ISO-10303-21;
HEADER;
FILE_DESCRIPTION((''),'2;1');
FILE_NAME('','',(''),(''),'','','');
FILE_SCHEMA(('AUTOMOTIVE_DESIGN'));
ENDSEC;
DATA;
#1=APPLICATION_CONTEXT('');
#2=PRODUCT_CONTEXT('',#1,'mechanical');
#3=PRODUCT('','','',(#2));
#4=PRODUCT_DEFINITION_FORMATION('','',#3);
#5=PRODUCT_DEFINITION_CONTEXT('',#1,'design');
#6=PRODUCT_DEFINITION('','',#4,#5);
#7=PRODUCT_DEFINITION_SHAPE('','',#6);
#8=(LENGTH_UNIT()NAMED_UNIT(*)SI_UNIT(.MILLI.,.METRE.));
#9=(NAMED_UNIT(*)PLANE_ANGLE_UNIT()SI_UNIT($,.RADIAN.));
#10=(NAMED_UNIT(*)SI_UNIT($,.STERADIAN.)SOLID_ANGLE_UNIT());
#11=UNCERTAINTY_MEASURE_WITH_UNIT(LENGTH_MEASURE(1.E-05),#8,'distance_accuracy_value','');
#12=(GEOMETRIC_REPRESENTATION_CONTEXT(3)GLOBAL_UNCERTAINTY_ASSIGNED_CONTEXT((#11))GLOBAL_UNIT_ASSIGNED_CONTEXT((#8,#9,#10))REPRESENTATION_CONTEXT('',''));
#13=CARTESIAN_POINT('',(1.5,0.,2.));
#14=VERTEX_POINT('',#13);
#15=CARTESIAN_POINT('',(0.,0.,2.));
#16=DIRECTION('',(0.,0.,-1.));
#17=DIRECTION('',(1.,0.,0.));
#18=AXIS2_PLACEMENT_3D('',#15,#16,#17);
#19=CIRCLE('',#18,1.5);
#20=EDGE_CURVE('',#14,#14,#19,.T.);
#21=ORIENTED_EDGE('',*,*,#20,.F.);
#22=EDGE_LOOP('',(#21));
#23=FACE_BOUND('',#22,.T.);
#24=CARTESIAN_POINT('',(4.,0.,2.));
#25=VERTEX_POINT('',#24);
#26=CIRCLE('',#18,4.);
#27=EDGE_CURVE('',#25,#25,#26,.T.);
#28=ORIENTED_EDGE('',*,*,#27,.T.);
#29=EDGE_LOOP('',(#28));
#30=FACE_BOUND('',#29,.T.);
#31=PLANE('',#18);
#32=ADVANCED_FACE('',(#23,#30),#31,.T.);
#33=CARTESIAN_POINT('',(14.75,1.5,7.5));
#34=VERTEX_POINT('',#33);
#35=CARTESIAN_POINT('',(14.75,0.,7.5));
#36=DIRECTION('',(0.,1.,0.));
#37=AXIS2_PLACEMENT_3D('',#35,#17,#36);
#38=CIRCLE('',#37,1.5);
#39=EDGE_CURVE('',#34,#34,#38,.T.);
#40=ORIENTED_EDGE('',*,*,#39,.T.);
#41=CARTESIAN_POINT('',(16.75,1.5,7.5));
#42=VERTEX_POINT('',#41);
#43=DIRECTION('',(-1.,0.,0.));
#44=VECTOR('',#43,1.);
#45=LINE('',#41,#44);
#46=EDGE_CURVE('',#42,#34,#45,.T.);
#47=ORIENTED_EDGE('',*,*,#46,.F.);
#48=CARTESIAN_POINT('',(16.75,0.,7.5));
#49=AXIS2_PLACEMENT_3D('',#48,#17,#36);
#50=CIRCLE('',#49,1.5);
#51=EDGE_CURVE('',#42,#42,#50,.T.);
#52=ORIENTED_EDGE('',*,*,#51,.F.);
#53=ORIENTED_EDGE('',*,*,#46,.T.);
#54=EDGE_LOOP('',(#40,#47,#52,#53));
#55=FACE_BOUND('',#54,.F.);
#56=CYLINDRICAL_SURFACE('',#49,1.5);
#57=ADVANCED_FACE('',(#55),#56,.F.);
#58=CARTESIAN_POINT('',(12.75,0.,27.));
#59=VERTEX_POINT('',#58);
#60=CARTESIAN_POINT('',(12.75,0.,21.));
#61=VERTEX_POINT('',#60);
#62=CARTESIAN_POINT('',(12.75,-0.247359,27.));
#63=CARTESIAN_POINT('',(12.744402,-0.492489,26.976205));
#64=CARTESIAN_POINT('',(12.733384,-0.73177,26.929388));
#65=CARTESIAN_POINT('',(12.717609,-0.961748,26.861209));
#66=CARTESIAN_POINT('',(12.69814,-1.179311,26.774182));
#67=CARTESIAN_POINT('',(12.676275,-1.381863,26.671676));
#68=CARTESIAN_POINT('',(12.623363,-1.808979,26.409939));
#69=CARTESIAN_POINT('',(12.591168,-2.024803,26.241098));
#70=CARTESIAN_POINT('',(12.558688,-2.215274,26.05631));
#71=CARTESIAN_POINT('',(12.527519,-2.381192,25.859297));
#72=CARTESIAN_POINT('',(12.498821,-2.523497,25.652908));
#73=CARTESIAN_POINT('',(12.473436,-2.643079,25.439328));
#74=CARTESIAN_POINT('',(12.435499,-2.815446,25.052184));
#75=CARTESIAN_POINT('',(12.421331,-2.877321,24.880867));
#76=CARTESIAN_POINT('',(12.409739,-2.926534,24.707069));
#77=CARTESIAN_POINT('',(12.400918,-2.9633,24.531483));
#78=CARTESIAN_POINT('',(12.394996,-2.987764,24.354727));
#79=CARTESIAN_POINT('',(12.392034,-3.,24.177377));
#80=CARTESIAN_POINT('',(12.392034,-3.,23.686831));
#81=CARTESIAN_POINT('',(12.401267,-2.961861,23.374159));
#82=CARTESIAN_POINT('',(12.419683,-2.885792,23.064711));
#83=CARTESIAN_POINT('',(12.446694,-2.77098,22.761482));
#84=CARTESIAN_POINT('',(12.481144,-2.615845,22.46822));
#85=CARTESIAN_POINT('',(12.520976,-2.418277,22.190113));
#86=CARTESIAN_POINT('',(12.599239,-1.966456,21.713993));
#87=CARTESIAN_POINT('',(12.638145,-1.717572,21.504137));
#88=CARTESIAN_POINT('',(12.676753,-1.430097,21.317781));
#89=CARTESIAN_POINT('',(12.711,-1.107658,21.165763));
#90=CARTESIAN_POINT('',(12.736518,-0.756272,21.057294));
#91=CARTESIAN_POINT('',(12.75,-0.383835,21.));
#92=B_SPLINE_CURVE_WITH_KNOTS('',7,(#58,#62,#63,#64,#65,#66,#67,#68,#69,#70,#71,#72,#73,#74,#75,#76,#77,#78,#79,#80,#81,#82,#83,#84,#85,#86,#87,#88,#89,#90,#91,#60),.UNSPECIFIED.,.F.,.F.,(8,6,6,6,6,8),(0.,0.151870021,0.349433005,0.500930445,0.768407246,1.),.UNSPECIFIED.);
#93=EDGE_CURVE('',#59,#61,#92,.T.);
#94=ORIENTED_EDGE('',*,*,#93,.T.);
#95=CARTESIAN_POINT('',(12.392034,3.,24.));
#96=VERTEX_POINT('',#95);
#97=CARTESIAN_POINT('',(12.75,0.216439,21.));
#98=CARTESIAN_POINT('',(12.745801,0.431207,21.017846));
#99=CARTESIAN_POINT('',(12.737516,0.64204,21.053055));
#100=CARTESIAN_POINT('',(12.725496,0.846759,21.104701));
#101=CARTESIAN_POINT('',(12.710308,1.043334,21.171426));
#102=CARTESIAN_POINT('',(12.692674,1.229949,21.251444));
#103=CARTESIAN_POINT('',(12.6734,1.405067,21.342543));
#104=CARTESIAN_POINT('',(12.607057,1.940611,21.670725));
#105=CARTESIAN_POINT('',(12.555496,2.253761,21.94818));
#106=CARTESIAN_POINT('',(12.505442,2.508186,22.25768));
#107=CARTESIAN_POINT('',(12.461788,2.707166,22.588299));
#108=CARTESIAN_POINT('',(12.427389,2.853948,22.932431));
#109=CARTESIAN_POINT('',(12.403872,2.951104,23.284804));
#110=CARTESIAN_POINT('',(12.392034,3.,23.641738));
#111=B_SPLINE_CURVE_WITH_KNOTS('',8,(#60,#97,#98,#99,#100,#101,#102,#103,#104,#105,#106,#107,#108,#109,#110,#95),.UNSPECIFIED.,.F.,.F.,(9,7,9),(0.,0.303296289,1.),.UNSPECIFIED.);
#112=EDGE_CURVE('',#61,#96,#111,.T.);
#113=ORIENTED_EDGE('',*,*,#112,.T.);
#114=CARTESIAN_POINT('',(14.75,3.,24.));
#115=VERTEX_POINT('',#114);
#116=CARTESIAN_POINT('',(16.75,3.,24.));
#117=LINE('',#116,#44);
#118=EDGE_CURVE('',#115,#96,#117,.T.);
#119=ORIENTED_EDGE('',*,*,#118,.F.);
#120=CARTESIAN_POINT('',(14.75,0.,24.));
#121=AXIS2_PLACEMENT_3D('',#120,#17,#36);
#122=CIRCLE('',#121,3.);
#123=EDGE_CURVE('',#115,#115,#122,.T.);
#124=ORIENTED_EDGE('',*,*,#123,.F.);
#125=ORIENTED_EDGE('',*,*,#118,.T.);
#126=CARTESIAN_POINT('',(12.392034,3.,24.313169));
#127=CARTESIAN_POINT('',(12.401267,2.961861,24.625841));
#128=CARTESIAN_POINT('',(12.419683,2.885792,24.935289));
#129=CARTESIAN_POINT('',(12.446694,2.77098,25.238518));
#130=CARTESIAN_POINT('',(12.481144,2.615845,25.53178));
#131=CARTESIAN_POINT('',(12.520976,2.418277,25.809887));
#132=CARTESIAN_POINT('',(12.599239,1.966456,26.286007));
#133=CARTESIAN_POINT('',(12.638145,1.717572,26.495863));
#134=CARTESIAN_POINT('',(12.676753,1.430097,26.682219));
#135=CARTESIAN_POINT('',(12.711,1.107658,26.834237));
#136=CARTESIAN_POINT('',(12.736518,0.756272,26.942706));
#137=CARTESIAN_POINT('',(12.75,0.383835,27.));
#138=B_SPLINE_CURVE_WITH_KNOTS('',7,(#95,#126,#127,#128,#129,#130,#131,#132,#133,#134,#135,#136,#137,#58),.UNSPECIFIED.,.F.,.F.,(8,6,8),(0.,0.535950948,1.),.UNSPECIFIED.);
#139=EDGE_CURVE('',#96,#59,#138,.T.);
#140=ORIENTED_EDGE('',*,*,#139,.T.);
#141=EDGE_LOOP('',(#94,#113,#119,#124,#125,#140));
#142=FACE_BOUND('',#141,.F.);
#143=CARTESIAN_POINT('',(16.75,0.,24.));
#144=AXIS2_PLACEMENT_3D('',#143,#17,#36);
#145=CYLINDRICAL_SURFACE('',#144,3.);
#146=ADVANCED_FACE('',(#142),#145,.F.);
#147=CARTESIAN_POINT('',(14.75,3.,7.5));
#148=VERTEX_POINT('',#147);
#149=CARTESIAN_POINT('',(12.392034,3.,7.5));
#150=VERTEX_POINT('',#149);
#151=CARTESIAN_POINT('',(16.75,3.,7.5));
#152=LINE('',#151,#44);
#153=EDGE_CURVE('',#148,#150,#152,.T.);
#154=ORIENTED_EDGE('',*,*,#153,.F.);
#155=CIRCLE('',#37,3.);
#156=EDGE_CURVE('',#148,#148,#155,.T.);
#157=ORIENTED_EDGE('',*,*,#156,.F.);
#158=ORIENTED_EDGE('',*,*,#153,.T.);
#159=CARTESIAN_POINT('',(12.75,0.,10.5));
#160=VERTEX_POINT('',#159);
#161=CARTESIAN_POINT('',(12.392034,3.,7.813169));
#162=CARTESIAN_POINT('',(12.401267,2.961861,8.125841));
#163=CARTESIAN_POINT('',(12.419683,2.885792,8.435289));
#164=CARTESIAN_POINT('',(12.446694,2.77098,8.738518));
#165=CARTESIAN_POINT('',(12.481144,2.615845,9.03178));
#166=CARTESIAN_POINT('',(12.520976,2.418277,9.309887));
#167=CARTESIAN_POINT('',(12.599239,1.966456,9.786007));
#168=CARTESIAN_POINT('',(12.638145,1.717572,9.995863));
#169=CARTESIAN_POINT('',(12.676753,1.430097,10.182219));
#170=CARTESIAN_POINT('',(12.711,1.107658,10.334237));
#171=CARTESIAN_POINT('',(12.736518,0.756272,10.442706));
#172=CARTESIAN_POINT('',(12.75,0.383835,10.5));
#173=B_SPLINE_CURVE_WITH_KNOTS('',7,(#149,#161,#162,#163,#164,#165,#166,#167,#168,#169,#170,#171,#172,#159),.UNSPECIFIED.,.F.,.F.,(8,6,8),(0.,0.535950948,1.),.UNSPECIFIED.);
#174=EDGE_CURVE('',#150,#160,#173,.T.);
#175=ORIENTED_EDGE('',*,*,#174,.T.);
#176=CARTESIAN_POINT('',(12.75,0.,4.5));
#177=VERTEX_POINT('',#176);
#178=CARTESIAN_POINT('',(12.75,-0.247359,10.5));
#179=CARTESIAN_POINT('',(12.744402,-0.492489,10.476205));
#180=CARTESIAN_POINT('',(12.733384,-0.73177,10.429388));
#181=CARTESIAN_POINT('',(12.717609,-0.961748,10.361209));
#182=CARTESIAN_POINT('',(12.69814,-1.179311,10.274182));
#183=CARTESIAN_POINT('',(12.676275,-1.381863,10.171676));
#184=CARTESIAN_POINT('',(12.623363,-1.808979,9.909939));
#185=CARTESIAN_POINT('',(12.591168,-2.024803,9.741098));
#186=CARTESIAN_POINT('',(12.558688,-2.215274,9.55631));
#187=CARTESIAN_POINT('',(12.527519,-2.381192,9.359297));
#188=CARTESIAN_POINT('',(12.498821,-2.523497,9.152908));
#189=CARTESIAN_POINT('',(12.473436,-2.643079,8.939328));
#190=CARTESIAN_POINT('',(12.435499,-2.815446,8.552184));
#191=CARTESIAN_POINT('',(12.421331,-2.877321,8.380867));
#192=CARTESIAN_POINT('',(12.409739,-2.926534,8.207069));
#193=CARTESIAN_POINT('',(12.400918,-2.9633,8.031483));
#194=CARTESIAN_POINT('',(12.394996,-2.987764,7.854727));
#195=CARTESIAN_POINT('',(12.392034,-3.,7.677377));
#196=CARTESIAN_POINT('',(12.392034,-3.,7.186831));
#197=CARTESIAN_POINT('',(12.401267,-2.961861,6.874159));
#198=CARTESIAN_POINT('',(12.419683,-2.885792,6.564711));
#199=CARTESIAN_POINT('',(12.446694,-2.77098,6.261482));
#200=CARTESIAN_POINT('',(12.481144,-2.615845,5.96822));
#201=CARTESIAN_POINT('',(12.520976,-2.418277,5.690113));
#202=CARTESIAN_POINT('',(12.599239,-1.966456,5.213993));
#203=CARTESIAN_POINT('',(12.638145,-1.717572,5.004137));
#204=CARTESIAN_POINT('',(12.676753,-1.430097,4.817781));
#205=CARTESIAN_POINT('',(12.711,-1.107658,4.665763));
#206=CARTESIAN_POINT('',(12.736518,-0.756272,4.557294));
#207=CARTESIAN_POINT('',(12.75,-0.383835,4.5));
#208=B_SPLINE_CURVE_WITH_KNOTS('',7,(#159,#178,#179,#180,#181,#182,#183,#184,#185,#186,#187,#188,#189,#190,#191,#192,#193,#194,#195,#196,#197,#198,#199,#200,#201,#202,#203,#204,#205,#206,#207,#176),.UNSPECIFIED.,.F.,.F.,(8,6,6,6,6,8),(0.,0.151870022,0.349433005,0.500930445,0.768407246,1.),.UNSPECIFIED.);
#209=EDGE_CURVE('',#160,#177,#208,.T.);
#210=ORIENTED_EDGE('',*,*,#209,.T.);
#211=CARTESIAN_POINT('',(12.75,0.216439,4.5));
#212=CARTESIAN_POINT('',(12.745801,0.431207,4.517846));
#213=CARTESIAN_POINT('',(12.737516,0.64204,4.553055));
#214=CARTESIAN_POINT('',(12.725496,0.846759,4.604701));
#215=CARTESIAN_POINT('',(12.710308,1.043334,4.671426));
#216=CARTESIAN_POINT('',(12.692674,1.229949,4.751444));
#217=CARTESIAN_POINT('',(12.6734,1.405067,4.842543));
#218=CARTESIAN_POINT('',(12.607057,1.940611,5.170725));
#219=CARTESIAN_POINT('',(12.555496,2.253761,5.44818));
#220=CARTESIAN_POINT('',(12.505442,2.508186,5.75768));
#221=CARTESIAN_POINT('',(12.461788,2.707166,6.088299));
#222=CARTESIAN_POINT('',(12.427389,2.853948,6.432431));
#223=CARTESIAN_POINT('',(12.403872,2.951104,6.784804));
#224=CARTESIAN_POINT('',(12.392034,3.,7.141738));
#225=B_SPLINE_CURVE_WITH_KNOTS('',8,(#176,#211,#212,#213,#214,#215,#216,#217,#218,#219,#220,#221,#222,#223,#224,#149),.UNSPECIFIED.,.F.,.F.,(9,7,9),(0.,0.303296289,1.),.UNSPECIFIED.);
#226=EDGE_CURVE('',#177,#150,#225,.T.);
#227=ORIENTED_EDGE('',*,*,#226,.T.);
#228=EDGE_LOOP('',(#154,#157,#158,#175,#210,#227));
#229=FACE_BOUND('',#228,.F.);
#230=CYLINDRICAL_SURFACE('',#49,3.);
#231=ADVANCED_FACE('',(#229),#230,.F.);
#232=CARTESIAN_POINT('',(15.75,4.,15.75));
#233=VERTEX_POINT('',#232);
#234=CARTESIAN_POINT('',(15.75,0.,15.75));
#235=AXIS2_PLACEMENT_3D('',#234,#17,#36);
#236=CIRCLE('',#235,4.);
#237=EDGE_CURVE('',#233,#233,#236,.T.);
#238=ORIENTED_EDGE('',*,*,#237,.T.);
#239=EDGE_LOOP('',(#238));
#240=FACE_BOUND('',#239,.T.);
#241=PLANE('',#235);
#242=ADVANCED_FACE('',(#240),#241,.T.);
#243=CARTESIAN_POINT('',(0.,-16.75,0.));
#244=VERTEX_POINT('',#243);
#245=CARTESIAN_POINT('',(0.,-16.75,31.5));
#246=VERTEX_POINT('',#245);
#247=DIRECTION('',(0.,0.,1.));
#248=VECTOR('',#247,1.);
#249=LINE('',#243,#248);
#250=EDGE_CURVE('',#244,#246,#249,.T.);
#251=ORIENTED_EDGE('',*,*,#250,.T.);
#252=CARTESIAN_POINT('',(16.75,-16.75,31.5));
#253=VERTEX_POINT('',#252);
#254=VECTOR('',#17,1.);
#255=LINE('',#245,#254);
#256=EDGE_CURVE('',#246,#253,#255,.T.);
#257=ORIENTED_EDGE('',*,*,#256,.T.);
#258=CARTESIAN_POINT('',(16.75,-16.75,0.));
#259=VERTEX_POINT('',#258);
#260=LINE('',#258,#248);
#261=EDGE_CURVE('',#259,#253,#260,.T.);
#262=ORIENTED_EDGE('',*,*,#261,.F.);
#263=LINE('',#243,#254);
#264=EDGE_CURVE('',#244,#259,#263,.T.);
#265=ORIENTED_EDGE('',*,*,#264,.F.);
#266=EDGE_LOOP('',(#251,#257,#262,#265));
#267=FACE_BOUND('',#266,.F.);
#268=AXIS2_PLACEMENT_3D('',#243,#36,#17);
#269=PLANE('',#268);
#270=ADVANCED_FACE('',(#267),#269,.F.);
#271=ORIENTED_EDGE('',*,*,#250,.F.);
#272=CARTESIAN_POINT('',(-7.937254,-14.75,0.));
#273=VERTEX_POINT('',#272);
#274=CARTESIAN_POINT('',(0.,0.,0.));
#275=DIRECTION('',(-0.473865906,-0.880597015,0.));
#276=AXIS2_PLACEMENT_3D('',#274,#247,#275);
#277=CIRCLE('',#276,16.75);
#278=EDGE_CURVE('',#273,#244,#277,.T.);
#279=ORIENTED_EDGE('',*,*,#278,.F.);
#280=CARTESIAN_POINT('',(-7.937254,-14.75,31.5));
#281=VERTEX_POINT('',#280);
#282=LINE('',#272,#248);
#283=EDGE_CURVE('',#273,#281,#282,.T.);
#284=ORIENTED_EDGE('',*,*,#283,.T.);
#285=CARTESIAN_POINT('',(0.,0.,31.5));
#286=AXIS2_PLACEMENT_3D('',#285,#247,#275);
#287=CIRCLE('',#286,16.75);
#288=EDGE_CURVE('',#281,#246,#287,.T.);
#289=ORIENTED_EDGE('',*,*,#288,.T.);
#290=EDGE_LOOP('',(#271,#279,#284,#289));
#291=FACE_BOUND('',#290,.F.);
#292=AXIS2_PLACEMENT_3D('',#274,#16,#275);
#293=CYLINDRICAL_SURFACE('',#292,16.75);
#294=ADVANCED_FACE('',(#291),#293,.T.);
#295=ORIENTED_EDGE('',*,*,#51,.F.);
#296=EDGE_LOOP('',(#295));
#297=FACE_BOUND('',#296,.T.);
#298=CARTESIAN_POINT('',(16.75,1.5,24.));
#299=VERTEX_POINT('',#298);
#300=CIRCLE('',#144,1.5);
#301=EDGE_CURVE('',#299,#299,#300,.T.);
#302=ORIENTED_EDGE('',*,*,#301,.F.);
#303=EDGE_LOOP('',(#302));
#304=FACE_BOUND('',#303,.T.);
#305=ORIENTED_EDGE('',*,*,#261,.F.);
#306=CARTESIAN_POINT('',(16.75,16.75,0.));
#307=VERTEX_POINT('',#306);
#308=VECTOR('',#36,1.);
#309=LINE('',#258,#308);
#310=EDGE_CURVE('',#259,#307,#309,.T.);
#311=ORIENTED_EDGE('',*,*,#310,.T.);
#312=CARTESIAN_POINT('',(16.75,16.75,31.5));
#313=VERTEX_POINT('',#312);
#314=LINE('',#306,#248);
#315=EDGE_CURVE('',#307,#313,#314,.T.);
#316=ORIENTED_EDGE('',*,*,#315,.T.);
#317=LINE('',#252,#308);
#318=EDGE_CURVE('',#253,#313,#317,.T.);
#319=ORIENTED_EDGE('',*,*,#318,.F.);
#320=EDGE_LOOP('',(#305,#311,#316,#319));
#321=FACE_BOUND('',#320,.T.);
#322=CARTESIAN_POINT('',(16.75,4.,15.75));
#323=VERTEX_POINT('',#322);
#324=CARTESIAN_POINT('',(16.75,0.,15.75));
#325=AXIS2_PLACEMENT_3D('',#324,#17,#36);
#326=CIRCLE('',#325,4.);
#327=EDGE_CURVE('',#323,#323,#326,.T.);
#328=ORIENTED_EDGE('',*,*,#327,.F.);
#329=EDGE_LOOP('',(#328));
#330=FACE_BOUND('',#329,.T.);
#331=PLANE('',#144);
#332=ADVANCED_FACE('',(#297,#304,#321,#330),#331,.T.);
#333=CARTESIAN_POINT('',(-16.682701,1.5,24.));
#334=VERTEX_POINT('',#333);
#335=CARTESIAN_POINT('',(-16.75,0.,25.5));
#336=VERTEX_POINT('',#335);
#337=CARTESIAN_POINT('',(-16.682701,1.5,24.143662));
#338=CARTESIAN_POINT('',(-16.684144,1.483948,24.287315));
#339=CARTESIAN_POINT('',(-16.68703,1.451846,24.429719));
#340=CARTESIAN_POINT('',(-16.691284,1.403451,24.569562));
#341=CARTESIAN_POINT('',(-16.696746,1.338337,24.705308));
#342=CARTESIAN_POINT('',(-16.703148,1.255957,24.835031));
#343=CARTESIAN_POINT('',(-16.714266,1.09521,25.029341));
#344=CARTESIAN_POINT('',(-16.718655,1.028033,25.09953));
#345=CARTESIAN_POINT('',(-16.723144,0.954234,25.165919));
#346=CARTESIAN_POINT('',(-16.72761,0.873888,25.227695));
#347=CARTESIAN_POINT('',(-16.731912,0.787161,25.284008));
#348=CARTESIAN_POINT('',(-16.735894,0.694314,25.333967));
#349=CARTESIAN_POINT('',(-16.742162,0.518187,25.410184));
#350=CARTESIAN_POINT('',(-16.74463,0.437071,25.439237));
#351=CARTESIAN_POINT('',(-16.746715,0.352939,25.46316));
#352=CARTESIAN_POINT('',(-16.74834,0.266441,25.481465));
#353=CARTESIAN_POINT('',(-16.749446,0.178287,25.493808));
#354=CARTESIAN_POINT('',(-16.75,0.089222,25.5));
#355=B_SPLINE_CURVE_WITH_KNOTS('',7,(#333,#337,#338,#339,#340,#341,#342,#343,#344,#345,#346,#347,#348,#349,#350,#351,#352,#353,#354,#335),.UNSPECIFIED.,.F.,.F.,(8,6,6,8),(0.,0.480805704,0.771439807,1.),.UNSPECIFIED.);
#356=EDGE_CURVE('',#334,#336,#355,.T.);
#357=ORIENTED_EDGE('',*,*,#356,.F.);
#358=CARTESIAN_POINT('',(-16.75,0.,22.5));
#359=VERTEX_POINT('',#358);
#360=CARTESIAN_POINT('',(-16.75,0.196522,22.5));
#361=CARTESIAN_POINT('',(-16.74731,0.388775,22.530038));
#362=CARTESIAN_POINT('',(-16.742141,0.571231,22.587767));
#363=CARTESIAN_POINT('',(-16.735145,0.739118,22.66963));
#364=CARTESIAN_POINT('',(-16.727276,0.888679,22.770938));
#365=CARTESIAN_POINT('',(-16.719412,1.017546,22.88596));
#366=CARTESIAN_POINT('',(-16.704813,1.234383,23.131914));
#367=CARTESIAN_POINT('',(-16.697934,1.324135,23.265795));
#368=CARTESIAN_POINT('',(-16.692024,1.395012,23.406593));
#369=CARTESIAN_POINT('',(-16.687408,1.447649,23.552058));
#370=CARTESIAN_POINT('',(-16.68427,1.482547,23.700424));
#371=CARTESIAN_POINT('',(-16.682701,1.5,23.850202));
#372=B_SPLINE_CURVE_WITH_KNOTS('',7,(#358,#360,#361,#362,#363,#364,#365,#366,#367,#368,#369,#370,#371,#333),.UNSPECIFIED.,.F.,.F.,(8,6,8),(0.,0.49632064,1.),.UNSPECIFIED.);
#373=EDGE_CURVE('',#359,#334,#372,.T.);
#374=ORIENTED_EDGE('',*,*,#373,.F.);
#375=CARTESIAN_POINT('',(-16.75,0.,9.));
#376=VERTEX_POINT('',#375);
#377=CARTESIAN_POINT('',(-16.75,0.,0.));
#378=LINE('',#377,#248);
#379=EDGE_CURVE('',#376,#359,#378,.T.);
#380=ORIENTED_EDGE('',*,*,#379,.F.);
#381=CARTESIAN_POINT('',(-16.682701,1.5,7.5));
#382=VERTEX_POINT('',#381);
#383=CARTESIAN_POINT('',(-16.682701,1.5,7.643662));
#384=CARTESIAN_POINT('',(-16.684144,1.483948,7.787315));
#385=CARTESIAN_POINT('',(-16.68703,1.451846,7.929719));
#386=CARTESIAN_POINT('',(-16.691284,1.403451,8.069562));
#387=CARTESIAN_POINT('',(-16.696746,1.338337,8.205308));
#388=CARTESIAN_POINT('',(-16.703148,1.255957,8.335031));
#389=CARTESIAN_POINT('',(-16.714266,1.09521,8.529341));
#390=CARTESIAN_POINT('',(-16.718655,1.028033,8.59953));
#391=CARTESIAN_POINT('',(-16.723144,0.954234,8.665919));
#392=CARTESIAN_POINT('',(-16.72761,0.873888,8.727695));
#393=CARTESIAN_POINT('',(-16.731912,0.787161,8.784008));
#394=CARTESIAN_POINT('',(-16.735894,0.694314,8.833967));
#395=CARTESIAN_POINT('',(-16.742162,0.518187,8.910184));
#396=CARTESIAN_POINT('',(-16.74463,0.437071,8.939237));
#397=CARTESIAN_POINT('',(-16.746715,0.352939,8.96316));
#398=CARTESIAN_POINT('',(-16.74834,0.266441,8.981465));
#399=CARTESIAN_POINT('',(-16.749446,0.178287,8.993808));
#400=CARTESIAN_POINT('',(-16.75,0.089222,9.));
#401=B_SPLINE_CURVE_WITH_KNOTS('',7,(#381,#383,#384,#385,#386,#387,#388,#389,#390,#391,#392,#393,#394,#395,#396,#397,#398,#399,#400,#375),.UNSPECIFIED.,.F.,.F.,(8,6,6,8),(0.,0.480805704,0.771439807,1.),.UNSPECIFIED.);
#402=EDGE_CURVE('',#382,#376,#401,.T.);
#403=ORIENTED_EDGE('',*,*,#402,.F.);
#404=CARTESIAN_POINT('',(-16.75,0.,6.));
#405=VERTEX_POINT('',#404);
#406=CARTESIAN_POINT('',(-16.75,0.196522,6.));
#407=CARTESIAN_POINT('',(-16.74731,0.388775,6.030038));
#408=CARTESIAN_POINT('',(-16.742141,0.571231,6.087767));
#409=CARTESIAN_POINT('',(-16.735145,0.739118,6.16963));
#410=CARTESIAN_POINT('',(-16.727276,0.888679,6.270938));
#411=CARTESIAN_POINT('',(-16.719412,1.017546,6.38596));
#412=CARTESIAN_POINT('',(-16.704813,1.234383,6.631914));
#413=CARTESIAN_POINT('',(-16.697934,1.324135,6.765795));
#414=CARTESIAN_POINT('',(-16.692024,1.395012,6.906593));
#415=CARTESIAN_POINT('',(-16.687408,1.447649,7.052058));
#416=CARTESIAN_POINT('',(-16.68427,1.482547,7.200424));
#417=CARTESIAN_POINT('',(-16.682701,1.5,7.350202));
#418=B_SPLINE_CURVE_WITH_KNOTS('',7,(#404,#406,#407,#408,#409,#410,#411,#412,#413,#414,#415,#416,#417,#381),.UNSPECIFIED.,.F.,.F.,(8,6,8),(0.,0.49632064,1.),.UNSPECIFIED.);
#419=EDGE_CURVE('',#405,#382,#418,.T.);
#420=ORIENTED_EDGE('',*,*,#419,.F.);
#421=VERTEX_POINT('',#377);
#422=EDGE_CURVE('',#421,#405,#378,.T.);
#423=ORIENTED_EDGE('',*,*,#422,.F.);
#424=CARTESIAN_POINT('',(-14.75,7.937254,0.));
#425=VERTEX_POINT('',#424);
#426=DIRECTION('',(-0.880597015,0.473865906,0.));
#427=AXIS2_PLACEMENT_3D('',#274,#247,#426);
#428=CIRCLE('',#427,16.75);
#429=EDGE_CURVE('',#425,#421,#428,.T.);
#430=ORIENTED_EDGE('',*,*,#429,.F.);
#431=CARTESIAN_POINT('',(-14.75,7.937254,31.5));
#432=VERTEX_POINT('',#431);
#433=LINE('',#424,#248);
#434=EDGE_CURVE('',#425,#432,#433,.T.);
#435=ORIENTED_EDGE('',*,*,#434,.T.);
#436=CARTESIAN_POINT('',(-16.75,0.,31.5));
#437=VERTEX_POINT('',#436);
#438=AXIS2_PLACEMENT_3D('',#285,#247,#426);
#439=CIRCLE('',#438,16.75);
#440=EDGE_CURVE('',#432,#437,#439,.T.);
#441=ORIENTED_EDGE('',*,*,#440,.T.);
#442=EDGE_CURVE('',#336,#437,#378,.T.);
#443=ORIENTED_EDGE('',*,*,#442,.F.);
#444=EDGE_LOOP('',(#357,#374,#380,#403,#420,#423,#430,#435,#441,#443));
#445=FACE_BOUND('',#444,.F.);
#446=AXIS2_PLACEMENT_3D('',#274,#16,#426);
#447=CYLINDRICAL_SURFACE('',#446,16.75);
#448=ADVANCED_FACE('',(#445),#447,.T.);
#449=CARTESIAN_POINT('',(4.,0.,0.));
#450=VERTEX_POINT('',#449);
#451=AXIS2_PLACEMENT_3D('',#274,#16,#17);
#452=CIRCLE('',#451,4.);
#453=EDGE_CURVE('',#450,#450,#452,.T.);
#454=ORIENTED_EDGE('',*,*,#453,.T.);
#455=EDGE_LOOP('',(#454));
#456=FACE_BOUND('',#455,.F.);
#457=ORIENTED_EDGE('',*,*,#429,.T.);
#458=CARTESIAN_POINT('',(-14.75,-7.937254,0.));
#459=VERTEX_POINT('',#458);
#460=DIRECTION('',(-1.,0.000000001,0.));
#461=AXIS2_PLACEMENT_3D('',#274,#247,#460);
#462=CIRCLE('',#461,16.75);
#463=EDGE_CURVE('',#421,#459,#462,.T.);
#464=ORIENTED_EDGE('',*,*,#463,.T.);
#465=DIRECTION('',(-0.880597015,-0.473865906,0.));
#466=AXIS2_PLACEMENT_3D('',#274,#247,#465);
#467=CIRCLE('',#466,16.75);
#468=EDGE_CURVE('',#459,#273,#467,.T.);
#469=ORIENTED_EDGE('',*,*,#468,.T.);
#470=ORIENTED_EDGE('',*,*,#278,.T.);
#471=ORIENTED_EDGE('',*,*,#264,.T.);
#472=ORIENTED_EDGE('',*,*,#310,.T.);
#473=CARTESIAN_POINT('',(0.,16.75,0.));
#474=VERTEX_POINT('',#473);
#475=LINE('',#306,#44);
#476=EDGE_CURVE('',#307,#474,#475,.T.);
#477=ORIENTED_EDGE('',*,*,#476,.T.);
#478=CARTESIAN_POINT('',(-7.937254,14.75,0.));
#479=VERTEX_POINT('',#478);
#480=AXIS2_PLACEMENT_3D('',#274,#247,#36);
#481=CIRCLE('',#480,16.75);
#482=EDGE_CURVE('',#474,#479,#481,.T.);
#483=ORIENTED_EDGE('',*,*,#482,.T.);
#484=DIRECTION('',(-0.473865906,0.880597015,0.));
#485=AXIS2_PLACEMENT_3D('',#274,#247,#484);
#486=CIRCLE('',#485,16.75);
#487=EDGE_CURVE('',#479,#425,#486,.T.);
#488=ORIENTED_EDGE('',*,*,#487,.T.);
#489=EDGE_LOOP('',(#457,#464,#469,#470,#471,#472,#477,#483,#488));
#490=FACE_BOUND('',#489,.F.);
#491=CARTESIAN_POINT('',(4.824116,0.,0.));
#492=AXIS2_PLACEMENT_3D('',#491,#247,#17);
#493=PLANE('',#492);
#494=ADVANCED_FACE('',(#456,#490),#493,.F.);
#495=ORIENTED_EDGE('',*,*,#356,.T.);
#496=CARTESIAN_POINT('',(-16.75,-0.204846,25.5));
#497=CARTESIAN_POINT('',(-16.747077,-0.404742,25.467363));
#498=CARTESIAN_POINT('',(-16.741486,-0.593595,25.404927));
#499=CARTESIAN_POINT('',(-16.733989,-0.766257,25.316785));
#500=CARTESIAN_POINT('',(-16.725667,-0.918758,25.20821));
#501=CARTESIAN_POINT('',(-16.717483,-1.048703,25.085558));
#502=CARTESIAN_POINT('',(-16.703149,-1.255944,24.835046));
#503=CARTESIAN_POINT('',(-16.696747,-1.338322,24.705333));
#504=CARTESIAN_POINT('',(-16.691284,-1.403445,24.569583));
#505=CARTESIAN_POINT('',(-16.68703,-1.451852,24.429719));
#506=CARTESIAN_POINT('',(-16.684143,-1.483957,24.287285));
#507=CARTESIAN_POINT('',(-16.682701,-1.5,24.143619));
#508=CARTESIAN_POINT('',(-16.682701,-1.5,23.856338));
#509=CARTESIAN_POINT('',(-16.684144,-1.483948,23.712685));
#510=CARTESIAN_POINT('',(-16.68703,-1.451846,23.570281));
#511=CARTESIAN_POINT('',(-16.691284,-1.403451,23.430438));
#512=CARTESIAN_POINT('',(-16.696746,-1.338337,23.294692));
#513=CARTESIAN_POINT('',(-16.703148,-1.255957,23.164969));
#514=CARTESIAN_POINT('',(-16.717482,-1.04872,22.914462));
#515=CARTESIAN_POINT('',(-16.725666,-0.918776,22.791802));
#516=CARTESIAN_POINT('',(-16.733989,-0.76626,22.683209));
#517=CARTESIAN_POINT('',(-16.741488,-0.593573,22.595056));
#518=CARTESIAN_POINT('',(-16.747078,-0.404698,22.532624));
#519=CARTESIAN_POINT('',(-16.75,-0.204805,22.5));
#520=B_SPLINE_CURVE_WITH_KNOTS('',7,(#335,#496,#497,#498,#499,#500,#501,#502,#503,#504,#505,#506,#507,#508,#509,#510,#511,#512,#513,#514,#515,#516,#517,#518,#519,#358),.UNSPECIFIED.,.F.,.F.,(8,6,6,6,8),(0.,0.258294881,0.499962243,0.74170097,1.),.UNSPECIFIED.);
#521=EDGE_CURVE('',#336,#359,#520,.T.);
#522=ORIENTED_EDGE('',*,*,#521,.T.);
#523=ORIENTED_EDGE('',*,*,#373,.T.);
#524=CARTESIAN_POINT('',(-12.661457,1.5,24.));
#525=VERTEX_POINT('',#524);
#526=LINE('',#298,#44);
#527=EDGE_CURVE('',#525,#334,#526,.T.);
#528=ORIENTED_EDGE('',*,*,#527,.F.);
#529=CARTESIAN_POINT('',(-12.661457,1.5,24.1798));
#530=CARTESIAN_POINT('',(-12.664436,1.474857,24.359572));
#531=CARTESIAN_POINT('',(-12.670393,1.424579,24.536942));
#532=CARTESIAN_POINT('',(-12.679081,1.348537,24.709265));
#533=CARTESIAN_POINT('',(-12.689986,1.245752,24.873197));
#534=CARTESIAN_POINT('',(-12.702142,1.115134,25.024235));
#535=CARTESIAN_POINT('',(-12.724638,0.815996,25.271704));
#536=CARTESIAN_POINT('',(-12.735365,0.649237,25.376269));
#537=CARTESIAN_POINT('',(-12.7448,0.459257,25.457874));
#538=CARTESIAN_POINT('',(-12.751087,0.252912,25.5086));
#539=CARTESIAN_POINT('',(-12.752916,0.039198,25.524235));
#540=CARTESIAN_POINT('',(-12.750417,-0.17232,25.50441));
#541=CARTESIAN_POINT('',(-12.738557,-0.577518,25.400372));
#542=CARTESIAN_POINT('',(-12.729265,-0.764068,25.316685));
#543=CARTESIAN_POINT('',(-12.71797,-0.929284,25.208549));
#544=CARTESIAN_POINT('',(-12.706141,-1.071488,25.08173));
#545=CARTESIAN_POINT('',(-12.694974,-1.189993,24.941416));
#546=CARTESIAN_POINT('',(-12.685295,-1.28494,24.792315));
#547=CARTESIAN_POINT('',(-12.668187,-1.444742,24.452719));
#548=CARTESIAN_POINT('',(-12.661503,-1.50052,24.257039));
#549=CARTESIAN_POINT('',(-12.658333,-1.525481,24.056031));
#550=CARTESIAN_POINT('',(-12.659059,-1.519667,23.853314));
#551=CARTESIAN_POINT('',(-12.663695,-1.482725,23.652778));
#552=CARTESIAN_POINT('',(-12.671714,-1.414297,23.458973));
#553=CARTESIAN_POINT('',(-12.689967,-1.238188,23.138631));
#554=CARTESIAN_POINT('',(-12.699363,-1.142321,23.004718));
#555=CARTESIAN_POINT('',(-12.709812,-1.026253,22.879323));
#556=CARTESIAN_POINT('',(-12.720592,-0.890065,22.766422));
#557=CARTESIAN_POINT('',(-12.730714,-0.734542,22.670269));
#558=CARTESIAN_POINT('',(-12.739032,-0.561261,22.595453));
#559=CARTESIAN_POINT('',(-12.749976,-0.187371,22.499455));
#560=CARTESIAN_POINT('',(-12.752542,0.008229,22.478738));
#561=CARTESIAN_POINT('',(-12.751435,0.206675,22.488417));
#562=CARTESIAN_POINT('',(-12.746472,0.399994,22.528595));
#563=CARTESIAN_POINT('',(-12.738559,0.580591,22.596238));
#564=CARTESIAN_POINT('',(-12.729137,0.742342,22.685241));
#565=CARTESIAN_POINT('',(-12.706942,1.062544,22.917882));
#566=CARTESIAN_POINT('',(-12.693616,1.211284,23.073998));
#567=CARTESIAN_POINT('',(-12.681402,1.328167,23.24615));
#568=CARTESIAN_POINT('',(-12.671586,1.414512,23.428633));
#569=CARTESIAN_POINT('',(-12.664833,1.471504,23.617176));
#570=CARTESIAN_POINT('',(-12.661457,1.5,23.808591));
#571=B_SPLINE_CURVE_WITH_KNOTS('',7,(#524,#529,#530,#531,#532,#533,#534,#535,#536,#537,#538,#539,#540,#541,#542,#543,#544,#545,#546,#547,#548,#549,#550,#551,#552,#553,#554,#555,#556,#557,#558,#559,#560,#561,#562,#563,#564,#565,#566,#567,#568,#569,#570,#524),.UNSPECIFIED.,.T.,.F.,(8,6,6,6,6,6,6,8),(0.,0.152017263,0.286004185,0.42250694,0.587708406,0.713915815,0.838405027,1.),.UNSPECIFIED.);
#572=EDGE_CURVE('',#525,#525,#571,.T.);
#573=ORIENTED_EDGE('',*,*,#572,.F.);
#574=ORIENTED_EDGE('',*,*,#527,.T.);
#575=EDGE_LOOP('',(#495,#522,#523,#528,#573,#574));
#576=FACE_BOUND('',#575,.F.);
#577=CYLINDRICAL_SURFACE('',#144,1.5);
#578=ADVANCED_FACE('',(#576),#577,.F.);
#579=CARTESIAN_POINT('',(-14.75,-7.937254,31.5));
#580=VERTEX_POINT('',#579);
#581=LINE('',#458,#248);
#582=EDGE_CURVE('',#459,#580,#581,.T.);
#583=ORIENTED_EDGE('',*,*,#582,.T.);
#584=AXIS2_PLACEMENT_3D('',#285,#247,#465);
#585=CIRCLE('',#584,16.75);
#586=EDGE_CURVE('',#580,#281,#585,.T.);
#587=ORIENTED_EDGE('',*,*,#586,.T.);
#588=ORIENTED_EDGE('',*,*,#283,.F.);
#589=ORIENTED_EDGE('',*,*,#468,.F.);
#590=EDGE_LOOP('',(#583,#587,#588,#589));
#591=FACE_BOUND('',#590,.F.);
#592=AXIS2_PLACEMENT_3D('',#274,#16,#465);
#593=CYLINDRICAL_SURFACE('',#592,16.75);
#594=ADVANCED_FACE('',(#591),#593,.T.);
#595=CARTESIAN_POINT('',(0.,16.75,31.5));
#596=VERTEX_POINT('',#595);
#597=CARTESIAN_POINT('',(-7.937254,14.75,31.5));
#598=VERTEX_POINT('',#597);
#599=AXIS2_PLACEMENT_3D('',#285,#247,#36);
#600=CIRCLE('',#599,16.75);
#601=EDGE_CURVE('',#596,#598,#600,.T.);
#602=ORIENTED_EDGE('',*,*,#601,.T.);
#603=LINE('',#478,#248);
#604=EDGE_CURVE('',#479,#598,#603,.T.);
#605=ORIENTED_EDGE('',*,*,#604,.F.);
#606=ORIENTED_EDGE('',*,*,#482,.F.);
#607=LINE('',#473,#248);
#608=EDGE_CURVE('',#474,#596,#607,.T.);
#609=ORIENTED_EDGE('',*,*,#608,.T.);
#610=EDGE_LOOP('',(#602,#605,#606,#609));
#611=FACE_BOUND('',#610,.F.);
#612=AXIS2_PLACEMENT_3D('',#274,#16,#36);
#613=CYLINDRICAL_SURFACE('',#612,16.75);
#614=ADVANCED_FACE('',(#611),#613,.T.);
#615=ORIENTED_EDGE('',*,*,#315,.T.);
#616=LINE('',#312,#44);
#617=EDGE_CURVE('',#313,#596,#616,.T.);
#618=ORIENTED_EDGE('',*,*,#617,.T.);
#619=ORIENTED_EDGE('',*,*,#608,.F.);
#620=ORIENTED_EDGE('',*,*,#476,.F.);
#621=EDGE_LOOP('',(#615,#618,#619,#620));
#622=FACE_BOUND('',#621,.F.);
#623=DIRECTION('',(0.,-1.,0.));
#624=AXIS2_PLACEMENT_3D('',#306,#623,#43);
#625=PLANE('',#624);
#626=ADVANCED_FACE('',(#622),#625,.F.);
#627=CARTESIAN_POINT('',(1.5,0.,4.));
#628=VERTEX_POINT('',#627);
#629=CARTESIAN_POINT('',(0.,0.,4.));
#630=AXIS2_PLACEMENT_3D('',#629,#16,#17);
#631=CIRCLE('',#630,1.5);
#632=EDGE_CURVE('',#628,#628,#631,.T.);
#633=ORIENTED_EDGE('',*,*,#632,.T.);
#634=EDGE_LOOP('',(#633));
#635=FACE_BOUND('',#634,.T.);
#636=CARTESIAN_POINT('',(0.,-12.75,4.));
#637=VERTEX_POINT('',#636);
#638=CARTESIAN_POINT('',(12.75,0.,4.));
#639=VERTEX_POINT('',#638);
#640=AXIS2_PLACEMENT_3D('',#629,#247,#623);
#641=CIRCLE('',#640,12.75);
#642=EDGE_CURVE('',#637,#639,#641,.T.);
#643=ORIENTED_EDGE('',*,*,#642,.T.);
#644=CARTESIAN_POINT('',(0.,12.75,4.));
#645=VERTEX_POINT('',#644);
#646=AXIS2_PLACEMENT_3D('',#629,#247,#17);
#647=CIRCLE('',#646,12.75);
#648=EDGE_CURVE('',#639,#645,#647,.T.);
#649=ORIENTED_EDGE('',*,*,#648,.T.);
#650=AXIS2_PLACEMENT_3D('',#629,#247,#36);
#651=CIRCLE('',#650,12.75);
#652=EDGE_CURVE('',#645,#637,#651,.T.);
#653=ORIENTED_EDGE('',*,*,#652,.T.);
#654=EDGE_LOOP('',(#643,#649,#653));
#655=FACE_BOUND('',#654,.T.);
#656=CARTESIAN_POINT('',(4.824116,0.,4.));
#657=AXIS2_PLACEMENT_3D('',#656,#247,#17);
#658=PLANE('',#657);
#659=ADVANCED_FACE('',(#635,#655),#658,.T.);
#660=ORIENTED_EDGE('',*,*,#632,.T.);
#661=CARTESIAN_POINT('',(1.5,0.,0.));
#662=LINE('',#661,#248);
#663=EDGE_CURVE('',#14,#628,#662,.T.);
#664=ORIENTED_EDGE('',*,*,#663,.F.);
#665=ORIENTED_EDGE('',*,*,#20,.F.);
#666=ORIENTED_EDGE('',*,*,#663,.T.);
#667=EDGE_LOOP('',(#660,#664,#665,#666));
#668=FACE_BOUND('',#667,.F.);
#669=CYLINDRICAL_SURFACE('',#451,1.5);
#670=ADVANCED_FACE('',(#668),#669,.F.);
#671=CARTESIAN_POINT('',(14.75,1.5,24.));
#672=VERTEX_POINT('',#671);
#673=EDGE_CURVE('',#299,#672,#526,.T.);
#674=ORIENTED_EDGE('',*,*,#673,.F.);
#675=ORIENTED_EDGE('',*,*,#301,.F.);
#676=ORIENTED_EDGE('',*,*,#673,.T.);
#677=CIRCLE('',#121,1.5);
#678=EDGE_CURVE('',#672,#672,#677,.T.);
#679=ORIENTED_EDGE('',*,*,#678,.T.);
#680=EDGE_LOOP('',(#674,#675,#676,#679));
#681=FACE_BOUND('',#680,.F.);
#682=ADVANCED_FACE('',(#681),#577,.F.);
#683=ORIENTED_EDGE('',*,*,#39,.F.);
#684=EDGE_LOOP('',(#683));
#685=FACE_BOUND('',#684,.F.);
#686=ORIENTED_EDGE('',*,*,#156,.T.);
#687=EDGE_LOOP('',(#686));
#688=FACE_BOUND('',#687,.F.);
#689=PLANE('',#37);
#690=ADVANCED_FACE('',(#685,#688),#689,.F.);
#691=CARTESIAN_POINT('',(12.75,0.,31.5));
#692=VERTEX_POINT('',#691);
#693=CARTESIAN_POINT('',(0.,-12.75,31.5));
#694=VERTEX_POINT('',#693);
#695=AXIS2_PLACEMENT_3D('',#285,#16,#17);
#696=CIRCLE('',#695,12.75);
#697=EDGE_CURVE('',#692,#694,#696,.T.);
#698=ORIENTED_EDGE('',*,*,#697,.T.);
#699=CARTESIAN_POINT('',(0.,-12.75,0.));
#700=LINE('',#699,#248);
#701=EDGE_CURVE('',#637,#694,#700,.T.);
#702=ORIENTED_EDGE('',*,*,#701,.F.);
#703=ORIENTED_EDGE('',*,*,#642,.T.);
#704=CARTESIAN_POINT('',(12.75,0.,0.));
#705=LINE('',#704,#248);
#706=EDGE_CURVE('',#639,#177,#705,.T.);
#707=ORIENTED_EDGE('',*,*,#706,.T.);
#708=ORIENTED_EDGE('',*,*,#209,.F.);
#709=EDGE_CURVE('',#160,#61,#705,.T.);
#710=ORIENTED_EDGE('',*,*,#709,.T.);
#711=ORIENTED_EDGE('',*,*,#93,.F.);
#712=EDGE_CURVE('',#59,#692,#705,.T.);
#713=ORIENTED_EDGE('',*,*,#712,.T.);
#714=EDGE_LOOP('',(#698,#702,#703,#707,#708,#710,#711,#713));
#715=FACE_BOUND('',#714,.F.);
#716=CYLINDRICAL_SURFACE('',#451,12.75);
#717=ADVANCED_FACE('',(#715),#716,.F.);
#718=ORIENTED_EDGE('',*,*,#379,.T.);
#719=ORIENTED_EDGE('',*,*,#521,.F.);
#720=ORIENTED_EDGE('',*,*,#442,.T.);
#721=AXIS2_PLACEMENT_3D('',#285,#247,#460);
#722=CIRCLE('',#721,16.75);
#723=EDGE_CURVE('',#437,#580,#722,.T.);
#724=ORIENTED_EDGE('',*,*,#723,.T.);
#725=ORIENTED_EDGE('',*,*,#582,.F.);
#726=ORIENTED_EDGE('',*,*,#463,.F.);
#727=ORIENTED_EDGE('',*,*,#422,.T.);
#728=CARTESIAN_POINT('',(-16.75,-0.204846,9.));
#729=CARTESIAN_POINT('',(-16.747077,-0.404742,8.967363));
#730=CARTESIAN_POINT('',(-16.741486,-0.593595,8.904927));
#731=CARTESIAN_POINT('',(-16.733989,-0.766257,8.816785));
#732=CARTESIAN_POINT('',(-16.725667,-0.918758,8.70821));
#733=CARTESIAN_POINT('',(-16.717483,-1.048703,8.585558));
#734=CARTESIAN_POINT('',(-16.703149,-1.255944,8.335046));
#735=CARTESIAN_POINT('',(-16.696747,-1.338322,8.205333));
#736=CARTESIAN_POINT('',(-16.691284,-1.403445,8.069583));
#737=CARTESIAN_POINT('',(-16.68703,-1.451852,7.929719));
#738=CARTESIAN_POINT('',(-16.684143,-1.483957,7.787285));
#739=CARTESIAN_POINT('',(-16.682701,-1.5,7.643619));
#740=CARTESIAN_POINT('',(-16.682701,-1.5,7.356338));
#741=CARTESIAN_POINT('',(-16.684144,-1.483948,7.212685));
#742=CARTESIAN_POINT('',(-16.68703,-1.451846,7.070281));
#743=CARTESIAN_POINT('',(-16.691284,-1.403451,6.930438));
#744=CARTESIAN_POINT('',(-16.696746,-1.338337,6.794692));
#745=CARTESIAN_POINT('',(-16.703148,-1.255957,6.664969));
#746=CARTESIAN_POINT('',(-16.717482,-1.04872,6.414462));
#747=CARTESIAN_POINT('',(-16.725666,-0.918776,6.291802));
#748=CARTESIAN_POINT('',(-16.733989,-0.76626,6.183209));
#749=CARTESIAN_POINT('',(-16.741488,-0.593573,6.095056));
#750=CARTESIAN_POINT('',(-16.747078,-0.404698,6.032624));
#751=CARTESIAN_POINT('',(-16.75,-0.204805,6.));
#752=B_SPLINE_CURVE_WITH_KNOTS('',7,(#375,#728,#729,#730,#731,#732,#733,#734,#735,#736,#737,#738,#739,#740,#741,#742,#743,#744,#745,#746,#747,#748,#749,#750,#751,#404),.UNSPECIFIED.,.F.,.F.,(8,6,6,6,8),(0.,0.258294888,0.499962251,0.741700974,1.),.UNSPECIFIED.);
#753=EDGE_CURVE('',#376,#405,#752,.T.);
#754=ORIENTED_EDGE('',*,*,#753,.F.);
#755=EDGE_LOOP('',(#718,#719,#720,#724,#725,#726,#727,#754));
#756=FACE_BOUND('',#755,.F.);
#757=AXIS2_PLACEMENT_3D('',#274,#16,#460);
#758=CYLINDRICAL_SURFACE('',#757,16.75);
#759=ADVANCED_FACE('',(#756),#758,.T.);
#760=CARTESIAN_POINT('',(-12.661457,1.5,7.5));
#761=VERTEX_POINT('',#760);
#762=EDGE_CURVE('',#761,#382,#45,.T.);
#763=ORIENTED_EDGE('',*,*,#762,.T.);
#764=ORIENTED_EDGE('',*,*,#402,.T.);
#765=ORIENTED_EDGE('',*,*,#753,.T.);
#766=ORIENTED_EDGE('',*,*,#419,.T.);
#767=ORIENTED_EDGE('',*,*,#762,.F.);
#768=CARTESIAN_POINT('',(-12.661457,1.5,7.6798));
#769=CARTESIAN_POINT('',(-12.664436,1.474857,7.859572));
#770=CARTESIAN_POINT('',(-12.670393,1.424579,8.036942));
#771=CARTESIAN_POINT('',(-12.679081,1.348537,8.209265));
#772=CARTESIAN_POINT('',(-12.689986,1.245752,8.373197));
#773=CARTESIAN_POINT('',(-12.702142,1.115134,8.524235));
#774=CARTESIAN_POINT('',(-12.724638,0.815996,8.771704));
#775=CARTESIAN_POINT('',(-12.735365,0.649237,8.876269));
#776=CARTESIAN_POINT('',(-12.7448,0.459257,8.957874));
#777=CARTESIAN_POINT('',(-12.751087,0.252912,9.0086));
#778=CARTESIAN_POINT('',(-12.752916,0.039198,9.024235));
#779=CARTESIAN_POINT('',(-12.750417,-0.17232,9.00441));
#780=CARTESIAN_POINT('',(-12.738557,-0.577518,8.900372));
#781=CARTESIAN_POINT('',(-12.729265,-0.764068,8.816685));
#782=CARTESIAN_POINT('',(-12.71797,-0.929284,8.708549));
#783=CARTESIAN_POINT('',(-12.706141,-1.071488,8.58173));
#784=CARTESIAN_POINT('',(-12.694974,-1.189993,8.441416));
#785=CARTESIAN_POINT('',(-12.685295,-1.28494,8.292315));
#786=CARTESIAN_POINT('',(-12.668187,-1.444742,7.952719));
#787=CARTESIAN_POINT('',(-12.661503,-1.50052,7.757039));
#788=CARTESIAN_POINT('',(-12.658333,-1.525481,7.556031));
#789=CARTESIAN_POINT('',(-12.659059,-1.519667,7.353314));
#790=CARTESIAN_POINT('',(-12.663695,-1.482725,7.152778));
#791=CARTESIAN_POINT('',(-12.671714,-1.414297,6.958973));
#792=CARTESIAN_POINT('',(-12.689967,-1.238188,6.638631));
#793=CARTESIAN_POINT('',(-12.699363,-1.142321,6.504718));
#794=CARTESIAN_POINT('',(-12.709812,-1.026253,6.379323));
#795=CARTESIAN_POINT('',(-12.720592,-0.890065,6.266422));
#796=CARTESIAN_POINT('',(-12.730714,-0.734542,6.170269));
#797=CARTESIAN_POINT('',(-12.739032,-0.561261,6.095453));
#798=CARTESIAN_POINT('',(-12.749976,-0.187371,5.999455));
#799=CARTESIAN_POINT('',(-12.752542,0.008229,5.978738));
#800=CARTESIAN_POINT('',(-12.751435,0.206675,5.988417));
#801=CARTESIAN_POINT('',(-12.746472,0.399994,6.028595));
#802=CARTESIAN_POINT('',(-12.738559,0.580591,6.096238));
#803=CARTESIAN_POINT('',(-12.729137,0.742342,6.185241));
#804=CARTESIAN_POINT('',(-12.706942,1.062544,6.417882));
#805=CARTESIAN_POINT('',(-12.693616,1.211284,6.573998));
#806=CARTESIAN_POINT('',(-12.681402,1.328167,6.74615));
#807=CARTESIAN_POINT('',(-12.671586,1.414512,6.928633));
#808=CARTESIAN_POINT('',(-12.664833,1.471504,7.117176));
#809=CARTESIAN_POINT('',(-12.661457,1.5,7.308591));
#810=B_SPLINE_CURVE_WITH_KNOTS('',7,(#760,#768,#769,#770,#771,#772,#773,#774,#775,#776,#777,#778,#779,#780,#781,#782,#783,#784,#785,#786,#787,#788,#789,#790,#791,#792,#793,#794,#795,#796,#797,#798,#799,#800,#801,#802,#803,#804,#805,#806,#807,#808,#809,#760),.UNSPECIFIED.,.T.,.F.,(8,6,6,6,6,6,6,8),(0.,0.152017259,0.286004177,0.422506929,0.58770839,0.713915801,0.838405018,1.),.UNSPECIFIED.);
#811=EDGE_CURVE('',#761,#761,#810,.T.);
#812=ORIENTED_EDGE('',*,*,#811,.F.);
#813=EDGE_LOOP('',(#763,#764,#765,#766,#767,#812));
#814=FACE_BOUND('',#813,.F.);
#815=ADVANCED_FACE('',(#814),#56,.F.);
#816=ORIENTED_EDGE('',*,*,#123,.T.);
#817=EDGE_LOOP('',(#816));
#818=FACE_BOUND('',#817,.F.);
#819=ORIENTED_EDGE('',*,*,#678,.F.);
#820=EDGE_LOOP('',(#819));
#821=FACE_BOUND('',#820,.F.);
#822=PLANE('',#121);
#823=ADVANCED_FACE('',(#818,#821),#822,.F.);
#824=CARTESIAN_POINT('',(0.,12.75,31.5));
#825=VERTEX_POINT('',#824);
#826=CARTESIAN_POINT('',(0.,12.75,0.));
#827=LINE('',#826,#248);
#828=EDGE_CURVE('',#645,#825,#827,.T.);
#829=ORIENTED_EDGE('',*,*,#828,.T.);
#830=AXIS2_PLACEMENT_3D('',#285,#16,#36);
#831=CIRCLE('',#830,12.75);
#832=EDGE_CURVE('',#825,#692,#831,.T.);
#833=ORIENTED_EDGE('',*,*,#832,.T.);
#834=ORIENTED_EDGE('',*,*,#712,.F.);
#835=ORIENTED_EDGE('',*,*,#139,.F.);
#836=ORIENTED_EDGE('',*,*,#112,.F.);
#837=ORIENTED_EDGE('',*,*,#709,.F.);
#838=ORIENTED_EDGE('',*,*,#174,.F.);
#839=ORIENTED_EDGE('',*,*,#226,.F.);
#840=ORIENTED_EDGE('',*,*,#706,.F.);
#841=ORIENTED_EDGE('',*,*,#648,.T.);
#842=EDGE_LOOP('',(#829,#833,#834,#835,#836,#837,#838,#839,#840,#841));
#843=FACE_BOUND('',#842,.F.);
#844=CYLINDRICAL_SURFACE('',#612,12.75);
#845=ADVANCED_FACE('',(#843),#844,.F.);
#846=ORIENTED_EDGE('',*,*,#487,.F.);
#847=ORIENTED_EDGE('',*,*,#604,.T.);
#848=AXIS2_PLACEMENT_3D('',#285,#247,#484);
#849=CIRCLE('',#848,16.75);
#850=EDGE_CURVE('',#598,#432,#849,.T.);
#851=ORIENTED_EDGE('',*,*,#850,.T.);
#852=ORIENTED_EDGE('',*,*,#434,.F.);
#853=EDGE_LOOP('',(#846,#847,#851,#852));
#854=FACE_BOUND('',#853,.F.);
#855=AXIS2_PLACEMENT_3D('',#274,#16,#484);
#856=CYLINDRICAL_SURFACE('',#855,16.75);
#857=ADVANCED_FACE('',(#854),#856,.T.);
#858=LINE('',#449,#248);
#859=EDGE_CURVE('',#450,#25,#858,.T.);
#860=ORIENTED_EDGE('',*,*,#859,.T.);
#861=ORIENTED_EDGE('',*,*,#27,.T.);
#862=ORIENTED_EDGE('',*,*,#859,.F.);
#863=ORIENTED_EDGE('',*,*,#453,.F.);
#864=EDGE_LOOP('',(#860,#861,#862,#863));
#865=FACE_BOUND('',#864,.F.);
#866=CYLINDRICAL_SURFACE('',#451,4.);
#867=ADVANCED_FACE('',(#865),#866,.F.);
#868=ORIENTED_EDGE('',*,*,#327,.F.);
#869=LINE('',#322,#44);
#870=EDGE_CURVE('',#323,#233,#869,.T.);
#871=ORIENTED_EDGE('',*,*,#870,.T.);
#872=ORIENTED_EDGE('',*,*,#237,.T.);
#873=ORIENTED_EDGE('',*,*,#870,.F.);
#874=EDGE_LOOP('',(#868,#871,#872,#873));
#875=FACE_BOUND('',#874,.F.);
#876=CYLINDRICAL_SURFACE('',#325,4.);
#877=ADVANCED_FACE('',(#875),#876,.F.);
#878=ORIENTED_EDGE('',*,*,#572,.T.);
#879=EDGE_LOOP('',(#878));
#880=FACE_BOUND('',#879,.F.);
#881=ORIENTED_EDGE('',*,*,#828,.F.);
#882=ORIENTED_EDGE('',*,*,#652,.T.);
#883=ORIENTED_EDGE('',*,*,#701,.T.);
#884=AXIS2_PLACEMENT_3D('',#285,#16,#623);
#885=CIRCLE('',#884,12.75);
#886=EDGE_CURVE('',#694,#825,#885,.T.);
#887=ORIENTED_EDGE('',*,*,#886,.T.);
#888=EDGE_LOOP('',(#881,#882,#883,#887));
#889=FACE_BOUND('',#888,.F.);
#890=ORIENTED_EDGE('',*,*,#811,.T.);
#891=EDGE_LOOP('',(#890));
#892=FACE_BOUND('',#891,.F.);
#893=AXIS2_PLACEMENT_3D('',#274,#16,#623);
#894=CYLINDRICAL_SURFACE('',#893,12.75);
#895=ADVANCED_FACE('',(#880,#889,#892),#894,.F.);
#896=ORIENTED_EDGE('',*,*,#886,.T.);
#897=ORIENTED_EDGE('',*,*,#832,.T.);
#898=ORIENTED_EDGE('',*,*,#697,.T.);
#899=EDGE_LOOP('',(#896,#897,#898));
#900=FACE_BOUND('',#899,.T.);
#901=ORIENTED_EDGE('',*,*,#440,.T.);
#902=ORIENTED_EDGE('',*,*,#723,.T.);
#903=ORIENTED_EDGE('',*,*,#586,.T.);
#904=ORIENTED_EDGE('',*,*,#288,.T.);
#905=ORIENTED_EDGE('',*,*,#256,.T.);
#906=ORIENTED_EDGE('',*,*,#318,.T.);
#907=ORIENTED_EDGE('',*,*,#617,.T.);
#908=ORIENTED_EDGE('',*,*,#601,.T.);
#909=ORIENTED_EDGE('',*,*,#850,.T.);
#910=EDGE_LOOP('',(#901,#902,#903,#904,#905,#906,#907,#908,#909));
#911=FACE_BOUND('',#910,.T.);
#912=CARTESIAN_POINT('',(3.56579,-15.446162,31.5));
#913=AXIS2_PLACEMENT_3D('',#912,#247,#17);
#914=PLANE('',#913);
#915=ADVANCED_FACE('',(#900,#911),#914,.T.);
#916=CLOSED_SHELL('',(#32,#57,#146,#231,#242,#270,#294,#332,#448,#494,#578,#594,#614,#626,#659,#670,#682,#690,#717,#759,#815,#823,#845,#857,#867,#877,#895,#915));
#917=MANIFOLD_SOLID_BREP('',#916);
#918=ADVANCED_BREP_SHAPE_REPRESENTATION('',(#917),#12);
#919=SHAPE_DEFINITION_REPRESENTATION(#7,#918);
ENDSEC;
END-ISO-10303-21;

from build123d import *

# Parameters (mm, degrees)
F1_DEPTH  = 31.5
F2_R      = 3
F2_R_2    = 1.5
F3_DEPTH  = 5
F4_DEPTH  = 2
F2_R_3    = 4
F5_DEPTH  = 1
F6_DEPTH  = 4
F7_R      = 1.5
F8_DEPTH  = 31.5010001
F7_R_2    = 4
F9_DEPTH  = 2
F10_DEPTH = 33.501


with BuildPart() as f1:
    # F0 (on Top) → F1 (new body)
    with BuildSketch(Plane.XY):
        with BuildLine():
            Line((7.9372539332, -14.75), (0, -14.75))
            Line((0, -14.75), (0, -16.75))
            ThreePointArc((0, -16.75), (4.0926763859, -16.2423058708), (7.9372539332, -14.75))
        make_face()
        with BuildLine():
            ThreePointArc((16.75, 0), (16.2423058708, -4.0926763859), (14.75, -7.9372539332))
            Line((14.75, -7.9372539332), (14.75, -14.75))
            Line((14.75, -14.75), (7.9372539332, -14.75))
            ThreePointArc((7.9372539332, -14.75), (4.0926763859, -16.2423058708), (0, -16.75))
            Line((0, -16.75), (16.75, -16.75))
            Line((16.75, -16.75), (16.75, 0))
        make_face()
        with BuildLine():
            Line((14.75, -14.75), (14.75, -7.9372539332))
            ThreePointArc((14.75, -7.9372539332), (11.8440385849, -11.8440385849), (7.9372539332, -14.75))
            Line((7.9372539332, -14.75), (14.75, -14.75))
        make_face()
        with BuildLine():
            Line((14.75, -7.9372539332), (14.75, 0))
            ThreePointArc((14.75, 0), (10.4298250225, -10.4298250225), (0, -14.75))
            Line((0, -14.75), (7.9372539332, -14.75))
            ThreePointArc((7.9372539332, -14.75), (11.8440385849, -11.8440385849), (14.75, -7.9372539332))
        make_face()
        with BuildLine():
            ThreePointArc((0, -14.75), (10.4298250225, -10.4298250225), (14.75, 0))
            ThreePointArc((14.75, 0), (10.4298250225, 10.4298250225), (0, 14.75))
            Line((0, 14.75), (0, 12.75))
            ThreePointArc((0, 12.75), (9.0156114601, 9.0156114601), (12.75, 0))
            ThreePointArc((12.75, 0), (9.0156114601, -9.0156114601), (0, -12.75))
            Line((0, -12.75), (0, -14.75))
        make_face()
        with BuildLine():
            Line((14.75, 7.9372539332), (14.75, 0))
            Line((14.75, 0), (14.75, -7.9372539332))
            ThreePointArc((14.75, -7.9372539332), (16.2423058708, -4.0926763859), (16.75, 0))
            ThreePointArc((16.75, 0), (16.2423058708, 4.0926763859), (14.75, 7.9372539332))
        make_face()
        with BuildLine():
            ThreePointArc((0, 14.75), (10.4298250225, 10.4298250225), (14.75, 0))
            Line((14.75, 0), (14.75, 7.9372539332))
            ThreePointArc((14.75, 7.9372539332), (11.8440385849, 11.8440385849), (7.9372539332, 14.75))
            Line((7.9372539332, 14.75), (0, 14.75))
        make_face()
        with BuildLine():
            Line((14.75, 14.75), (14.75, 7.9372539332))
            ThreePointArc((14.75, 7.9372539332), (16.2423058708, 4.0926763859), (16.75, 0))
            Line((16.75, 0), (16.75, 16.75))
            Line((16.75, 16.75), (0, 16.75))
            ThreePointArc((0, 16.75), (4.0926763859, 16.2423058708), (7.9372539332, 14.75))
            Line((7.9372539332, 14.75), (14.75, 14.75))
        make_face()
        with BuildLine():
            ThreePointArc((7.9372539332, 14.75), (11.8440385849, 11.8440385849), (14.75, 7.9372539332))
            Line((14.75, 7.9372539332), (14.75, 14.75))
            Line((14.75, 14.75), (7.9372539332, 14.75))
        make_face()
        with BuildLine():
            Line((0, 16.75), (0, 14.75))
            Line((0, 14.75), (7.9372539332, 14.75))
            ThreePointArc((7.9372539332, 14.75), (4.0926763859, 16.2423058708), (0, 16.75))
        make_face()
        with BuildLine():
            Line((0, 12.75), (0, 14.75))
            ThreePointArc((0, 14.75), (-10.4298250296, 10.4298250154), (-14.75, -2e-08))
            ThreePointArc((-14.75, -2e-08), (-10.4298250154, -10.4298250296), (0, -14.75))
            Line((0, -14.75), (0, -12.75))
            ThreePointArc((0, -12.75), (-12.75, 0), (0, 12.75))
        make_face()
        with BuildLine():
            ThreePointArc((-14.75, -2e-08), (-10.4298250296, 10.4298250154), (0, 14.75))
            Line((0, 14.75), (-7.9372539332, 14.75))
            ThreePointArc((-7.9372539332, 14.75), (-11.8440385849, 11.8440385849), (-14.75, 7.9372539332))
            Line((-14.75, 7.9372539332), (-14.75, -2e-08))
        make_face()
        with BuildLine():
            Line((-7.9372539332, 14.75), (0, 14.75))
            Line((0, 14.75), (0, 16.75))
            ThreePointArc((0, 16.75), (-4.0926763859, 16.2423058708), (-7.9372539332, 14.75))
        make_face()
        with BuildLine():
            Line((-14.75, -7.9372539332), (-14.75, -2e-08))
            Line((-14.75, -2e-08), (-14.75, 7.9372539332))
            ThreePointArc((-14.75, 7.9372539332), (-16.2423058693, 4.092676392), (-16.75, 1.25e-08))
            ThreePointArc((-16.75, 1.25e-08), (-16.2423058723, -4.0926763799), (-14.75, -7.9372539332))
        make_face()
        with BuildLine():
            Line((-7.9372539332, -14.75), (0, -14.75))
            ThreePointArc((0, -14.75), (-10.4298250154, -10.4298250296), (-14.75, -2e-08))
            Line((-14.75, -2e-08), (-14.75, -7.9372539332))
            ThreePointArc((-14.75, -7.9372539332), (-11.8440385849, -11.8440385849), (-7.9372539332, -14.75))
        make_face()
        with BuildLine():
            Line((0, -16.75), (0, -14.75))
            Line((0, -14.75), (-7.9372539332, -14.75))
            ThreePointArc((-7.9372539332, -14.75), (-4.0926763859, -16.2423058708), (0, -16.75))
        make_face()
    extrude(amount=F1_DEPTH)

    # F2 (on face) → F3 (cut)
    with BuildSketch(Plane.YZ.offset(16.75)):
        with Locations((0, 24)):
            Circle(F2_R)
        with Locations((0, 24)):
            Circle(F2_R_2, mode=Mode.SUBTRACT)
        with Locations((0, 7.5)):
            Circle(F2_R)
        with Locations((0, 7.5)):
            Circle(F2_R_2, mode=Mode.SUBTRACT)
        with Locations((0, 24)):
            Circle(F2_R_2)
        with Locations((0, 7.5)):
            Circle(F2_R_2)
    extrude(amount=-F3_DEPTH, mode=Mode.SUBTRACT)

    # F2 (on face) → F4 (join)
    with BuildSketch(Plane.YZ.offset(16.75)):
        with Locations((0, 24)):
            Circle(F2_R)
        with Locations((0, 24)):
            Circle(F2_R_2, mode=Mode.SUBTRACT)
        with Locations((0, 7.5)):
            Circle(F2_R)
        with Locations((0, 7.5)):
            Circle(F2_R_2, mode=Mode.SUBTRACT)
    extrude(amount=-F4_DEPTH)

    # F2 (on face) → F5 (cut)
    with BuildSketch(Plane.YZ.offset(16.75)):
        with Locations((0, 15.75)):
            Circle(F2_R_3)
    extrude(amount=-F5_DEPTH, mode=Mode.SUBTRACT)

    # F0 (on Top) → F6 (join)
    with BuildSketch(Plane.XY):
        with BuildLine():
            ThreePointArc((12.75, 0), (9.0156114601, 9.0156114601), (0, 12.75))
            Line((0, 12.75), (0, -12.75))
            ThreePointArc((0, -12.75), (9.0156114601, -9.0156114601), (12.75, 0))
        make_face()
        with BuildLine():
            Line((0, -12.75), (0, 12.75))
            ThreePointArc((0, 12.75), (-12.75, 0), (0, -12.75))
        make_face()
    extrude(amount=F6_DEPTH)

    # F7 (on face) → F8 (cut, through all)
    with BuildSketch(Plane(origin=(0, 0, 0), x_dir=(1, 0, 0), z_dir=(0, 0, -1))):
        Circle(F7_R)
    extrude(amount=-F8_DEPTH, mode=Mode.SUBTRACT)

    # F7 (on face) → F9 (cut)
    with BuildSketch(Plane(origin=(0, 0, 0), x_dir=(1, 0, 0), z_dir=(0, 0, -1))):
        Circle(F7_R_2)
        Circle(F7_R, mode=Mode.SUBTRACT)
    extrude(amount=-F9_DEPTH, mode=Mode.SUBTRACT)

    # F2 (on face) → F10 (cut, through all)
    with BuildSketch(Plane.YZ.offset(16.75)):
        with Locations((0, 24)):
            Circle(F2_R_2)
        with Locations((0, 7.5)):
            Circle(F2_R_2)
    extrude(amount=-F10_DEPTH, mode=Mode.SUBTRACT)


solid = f1.part
